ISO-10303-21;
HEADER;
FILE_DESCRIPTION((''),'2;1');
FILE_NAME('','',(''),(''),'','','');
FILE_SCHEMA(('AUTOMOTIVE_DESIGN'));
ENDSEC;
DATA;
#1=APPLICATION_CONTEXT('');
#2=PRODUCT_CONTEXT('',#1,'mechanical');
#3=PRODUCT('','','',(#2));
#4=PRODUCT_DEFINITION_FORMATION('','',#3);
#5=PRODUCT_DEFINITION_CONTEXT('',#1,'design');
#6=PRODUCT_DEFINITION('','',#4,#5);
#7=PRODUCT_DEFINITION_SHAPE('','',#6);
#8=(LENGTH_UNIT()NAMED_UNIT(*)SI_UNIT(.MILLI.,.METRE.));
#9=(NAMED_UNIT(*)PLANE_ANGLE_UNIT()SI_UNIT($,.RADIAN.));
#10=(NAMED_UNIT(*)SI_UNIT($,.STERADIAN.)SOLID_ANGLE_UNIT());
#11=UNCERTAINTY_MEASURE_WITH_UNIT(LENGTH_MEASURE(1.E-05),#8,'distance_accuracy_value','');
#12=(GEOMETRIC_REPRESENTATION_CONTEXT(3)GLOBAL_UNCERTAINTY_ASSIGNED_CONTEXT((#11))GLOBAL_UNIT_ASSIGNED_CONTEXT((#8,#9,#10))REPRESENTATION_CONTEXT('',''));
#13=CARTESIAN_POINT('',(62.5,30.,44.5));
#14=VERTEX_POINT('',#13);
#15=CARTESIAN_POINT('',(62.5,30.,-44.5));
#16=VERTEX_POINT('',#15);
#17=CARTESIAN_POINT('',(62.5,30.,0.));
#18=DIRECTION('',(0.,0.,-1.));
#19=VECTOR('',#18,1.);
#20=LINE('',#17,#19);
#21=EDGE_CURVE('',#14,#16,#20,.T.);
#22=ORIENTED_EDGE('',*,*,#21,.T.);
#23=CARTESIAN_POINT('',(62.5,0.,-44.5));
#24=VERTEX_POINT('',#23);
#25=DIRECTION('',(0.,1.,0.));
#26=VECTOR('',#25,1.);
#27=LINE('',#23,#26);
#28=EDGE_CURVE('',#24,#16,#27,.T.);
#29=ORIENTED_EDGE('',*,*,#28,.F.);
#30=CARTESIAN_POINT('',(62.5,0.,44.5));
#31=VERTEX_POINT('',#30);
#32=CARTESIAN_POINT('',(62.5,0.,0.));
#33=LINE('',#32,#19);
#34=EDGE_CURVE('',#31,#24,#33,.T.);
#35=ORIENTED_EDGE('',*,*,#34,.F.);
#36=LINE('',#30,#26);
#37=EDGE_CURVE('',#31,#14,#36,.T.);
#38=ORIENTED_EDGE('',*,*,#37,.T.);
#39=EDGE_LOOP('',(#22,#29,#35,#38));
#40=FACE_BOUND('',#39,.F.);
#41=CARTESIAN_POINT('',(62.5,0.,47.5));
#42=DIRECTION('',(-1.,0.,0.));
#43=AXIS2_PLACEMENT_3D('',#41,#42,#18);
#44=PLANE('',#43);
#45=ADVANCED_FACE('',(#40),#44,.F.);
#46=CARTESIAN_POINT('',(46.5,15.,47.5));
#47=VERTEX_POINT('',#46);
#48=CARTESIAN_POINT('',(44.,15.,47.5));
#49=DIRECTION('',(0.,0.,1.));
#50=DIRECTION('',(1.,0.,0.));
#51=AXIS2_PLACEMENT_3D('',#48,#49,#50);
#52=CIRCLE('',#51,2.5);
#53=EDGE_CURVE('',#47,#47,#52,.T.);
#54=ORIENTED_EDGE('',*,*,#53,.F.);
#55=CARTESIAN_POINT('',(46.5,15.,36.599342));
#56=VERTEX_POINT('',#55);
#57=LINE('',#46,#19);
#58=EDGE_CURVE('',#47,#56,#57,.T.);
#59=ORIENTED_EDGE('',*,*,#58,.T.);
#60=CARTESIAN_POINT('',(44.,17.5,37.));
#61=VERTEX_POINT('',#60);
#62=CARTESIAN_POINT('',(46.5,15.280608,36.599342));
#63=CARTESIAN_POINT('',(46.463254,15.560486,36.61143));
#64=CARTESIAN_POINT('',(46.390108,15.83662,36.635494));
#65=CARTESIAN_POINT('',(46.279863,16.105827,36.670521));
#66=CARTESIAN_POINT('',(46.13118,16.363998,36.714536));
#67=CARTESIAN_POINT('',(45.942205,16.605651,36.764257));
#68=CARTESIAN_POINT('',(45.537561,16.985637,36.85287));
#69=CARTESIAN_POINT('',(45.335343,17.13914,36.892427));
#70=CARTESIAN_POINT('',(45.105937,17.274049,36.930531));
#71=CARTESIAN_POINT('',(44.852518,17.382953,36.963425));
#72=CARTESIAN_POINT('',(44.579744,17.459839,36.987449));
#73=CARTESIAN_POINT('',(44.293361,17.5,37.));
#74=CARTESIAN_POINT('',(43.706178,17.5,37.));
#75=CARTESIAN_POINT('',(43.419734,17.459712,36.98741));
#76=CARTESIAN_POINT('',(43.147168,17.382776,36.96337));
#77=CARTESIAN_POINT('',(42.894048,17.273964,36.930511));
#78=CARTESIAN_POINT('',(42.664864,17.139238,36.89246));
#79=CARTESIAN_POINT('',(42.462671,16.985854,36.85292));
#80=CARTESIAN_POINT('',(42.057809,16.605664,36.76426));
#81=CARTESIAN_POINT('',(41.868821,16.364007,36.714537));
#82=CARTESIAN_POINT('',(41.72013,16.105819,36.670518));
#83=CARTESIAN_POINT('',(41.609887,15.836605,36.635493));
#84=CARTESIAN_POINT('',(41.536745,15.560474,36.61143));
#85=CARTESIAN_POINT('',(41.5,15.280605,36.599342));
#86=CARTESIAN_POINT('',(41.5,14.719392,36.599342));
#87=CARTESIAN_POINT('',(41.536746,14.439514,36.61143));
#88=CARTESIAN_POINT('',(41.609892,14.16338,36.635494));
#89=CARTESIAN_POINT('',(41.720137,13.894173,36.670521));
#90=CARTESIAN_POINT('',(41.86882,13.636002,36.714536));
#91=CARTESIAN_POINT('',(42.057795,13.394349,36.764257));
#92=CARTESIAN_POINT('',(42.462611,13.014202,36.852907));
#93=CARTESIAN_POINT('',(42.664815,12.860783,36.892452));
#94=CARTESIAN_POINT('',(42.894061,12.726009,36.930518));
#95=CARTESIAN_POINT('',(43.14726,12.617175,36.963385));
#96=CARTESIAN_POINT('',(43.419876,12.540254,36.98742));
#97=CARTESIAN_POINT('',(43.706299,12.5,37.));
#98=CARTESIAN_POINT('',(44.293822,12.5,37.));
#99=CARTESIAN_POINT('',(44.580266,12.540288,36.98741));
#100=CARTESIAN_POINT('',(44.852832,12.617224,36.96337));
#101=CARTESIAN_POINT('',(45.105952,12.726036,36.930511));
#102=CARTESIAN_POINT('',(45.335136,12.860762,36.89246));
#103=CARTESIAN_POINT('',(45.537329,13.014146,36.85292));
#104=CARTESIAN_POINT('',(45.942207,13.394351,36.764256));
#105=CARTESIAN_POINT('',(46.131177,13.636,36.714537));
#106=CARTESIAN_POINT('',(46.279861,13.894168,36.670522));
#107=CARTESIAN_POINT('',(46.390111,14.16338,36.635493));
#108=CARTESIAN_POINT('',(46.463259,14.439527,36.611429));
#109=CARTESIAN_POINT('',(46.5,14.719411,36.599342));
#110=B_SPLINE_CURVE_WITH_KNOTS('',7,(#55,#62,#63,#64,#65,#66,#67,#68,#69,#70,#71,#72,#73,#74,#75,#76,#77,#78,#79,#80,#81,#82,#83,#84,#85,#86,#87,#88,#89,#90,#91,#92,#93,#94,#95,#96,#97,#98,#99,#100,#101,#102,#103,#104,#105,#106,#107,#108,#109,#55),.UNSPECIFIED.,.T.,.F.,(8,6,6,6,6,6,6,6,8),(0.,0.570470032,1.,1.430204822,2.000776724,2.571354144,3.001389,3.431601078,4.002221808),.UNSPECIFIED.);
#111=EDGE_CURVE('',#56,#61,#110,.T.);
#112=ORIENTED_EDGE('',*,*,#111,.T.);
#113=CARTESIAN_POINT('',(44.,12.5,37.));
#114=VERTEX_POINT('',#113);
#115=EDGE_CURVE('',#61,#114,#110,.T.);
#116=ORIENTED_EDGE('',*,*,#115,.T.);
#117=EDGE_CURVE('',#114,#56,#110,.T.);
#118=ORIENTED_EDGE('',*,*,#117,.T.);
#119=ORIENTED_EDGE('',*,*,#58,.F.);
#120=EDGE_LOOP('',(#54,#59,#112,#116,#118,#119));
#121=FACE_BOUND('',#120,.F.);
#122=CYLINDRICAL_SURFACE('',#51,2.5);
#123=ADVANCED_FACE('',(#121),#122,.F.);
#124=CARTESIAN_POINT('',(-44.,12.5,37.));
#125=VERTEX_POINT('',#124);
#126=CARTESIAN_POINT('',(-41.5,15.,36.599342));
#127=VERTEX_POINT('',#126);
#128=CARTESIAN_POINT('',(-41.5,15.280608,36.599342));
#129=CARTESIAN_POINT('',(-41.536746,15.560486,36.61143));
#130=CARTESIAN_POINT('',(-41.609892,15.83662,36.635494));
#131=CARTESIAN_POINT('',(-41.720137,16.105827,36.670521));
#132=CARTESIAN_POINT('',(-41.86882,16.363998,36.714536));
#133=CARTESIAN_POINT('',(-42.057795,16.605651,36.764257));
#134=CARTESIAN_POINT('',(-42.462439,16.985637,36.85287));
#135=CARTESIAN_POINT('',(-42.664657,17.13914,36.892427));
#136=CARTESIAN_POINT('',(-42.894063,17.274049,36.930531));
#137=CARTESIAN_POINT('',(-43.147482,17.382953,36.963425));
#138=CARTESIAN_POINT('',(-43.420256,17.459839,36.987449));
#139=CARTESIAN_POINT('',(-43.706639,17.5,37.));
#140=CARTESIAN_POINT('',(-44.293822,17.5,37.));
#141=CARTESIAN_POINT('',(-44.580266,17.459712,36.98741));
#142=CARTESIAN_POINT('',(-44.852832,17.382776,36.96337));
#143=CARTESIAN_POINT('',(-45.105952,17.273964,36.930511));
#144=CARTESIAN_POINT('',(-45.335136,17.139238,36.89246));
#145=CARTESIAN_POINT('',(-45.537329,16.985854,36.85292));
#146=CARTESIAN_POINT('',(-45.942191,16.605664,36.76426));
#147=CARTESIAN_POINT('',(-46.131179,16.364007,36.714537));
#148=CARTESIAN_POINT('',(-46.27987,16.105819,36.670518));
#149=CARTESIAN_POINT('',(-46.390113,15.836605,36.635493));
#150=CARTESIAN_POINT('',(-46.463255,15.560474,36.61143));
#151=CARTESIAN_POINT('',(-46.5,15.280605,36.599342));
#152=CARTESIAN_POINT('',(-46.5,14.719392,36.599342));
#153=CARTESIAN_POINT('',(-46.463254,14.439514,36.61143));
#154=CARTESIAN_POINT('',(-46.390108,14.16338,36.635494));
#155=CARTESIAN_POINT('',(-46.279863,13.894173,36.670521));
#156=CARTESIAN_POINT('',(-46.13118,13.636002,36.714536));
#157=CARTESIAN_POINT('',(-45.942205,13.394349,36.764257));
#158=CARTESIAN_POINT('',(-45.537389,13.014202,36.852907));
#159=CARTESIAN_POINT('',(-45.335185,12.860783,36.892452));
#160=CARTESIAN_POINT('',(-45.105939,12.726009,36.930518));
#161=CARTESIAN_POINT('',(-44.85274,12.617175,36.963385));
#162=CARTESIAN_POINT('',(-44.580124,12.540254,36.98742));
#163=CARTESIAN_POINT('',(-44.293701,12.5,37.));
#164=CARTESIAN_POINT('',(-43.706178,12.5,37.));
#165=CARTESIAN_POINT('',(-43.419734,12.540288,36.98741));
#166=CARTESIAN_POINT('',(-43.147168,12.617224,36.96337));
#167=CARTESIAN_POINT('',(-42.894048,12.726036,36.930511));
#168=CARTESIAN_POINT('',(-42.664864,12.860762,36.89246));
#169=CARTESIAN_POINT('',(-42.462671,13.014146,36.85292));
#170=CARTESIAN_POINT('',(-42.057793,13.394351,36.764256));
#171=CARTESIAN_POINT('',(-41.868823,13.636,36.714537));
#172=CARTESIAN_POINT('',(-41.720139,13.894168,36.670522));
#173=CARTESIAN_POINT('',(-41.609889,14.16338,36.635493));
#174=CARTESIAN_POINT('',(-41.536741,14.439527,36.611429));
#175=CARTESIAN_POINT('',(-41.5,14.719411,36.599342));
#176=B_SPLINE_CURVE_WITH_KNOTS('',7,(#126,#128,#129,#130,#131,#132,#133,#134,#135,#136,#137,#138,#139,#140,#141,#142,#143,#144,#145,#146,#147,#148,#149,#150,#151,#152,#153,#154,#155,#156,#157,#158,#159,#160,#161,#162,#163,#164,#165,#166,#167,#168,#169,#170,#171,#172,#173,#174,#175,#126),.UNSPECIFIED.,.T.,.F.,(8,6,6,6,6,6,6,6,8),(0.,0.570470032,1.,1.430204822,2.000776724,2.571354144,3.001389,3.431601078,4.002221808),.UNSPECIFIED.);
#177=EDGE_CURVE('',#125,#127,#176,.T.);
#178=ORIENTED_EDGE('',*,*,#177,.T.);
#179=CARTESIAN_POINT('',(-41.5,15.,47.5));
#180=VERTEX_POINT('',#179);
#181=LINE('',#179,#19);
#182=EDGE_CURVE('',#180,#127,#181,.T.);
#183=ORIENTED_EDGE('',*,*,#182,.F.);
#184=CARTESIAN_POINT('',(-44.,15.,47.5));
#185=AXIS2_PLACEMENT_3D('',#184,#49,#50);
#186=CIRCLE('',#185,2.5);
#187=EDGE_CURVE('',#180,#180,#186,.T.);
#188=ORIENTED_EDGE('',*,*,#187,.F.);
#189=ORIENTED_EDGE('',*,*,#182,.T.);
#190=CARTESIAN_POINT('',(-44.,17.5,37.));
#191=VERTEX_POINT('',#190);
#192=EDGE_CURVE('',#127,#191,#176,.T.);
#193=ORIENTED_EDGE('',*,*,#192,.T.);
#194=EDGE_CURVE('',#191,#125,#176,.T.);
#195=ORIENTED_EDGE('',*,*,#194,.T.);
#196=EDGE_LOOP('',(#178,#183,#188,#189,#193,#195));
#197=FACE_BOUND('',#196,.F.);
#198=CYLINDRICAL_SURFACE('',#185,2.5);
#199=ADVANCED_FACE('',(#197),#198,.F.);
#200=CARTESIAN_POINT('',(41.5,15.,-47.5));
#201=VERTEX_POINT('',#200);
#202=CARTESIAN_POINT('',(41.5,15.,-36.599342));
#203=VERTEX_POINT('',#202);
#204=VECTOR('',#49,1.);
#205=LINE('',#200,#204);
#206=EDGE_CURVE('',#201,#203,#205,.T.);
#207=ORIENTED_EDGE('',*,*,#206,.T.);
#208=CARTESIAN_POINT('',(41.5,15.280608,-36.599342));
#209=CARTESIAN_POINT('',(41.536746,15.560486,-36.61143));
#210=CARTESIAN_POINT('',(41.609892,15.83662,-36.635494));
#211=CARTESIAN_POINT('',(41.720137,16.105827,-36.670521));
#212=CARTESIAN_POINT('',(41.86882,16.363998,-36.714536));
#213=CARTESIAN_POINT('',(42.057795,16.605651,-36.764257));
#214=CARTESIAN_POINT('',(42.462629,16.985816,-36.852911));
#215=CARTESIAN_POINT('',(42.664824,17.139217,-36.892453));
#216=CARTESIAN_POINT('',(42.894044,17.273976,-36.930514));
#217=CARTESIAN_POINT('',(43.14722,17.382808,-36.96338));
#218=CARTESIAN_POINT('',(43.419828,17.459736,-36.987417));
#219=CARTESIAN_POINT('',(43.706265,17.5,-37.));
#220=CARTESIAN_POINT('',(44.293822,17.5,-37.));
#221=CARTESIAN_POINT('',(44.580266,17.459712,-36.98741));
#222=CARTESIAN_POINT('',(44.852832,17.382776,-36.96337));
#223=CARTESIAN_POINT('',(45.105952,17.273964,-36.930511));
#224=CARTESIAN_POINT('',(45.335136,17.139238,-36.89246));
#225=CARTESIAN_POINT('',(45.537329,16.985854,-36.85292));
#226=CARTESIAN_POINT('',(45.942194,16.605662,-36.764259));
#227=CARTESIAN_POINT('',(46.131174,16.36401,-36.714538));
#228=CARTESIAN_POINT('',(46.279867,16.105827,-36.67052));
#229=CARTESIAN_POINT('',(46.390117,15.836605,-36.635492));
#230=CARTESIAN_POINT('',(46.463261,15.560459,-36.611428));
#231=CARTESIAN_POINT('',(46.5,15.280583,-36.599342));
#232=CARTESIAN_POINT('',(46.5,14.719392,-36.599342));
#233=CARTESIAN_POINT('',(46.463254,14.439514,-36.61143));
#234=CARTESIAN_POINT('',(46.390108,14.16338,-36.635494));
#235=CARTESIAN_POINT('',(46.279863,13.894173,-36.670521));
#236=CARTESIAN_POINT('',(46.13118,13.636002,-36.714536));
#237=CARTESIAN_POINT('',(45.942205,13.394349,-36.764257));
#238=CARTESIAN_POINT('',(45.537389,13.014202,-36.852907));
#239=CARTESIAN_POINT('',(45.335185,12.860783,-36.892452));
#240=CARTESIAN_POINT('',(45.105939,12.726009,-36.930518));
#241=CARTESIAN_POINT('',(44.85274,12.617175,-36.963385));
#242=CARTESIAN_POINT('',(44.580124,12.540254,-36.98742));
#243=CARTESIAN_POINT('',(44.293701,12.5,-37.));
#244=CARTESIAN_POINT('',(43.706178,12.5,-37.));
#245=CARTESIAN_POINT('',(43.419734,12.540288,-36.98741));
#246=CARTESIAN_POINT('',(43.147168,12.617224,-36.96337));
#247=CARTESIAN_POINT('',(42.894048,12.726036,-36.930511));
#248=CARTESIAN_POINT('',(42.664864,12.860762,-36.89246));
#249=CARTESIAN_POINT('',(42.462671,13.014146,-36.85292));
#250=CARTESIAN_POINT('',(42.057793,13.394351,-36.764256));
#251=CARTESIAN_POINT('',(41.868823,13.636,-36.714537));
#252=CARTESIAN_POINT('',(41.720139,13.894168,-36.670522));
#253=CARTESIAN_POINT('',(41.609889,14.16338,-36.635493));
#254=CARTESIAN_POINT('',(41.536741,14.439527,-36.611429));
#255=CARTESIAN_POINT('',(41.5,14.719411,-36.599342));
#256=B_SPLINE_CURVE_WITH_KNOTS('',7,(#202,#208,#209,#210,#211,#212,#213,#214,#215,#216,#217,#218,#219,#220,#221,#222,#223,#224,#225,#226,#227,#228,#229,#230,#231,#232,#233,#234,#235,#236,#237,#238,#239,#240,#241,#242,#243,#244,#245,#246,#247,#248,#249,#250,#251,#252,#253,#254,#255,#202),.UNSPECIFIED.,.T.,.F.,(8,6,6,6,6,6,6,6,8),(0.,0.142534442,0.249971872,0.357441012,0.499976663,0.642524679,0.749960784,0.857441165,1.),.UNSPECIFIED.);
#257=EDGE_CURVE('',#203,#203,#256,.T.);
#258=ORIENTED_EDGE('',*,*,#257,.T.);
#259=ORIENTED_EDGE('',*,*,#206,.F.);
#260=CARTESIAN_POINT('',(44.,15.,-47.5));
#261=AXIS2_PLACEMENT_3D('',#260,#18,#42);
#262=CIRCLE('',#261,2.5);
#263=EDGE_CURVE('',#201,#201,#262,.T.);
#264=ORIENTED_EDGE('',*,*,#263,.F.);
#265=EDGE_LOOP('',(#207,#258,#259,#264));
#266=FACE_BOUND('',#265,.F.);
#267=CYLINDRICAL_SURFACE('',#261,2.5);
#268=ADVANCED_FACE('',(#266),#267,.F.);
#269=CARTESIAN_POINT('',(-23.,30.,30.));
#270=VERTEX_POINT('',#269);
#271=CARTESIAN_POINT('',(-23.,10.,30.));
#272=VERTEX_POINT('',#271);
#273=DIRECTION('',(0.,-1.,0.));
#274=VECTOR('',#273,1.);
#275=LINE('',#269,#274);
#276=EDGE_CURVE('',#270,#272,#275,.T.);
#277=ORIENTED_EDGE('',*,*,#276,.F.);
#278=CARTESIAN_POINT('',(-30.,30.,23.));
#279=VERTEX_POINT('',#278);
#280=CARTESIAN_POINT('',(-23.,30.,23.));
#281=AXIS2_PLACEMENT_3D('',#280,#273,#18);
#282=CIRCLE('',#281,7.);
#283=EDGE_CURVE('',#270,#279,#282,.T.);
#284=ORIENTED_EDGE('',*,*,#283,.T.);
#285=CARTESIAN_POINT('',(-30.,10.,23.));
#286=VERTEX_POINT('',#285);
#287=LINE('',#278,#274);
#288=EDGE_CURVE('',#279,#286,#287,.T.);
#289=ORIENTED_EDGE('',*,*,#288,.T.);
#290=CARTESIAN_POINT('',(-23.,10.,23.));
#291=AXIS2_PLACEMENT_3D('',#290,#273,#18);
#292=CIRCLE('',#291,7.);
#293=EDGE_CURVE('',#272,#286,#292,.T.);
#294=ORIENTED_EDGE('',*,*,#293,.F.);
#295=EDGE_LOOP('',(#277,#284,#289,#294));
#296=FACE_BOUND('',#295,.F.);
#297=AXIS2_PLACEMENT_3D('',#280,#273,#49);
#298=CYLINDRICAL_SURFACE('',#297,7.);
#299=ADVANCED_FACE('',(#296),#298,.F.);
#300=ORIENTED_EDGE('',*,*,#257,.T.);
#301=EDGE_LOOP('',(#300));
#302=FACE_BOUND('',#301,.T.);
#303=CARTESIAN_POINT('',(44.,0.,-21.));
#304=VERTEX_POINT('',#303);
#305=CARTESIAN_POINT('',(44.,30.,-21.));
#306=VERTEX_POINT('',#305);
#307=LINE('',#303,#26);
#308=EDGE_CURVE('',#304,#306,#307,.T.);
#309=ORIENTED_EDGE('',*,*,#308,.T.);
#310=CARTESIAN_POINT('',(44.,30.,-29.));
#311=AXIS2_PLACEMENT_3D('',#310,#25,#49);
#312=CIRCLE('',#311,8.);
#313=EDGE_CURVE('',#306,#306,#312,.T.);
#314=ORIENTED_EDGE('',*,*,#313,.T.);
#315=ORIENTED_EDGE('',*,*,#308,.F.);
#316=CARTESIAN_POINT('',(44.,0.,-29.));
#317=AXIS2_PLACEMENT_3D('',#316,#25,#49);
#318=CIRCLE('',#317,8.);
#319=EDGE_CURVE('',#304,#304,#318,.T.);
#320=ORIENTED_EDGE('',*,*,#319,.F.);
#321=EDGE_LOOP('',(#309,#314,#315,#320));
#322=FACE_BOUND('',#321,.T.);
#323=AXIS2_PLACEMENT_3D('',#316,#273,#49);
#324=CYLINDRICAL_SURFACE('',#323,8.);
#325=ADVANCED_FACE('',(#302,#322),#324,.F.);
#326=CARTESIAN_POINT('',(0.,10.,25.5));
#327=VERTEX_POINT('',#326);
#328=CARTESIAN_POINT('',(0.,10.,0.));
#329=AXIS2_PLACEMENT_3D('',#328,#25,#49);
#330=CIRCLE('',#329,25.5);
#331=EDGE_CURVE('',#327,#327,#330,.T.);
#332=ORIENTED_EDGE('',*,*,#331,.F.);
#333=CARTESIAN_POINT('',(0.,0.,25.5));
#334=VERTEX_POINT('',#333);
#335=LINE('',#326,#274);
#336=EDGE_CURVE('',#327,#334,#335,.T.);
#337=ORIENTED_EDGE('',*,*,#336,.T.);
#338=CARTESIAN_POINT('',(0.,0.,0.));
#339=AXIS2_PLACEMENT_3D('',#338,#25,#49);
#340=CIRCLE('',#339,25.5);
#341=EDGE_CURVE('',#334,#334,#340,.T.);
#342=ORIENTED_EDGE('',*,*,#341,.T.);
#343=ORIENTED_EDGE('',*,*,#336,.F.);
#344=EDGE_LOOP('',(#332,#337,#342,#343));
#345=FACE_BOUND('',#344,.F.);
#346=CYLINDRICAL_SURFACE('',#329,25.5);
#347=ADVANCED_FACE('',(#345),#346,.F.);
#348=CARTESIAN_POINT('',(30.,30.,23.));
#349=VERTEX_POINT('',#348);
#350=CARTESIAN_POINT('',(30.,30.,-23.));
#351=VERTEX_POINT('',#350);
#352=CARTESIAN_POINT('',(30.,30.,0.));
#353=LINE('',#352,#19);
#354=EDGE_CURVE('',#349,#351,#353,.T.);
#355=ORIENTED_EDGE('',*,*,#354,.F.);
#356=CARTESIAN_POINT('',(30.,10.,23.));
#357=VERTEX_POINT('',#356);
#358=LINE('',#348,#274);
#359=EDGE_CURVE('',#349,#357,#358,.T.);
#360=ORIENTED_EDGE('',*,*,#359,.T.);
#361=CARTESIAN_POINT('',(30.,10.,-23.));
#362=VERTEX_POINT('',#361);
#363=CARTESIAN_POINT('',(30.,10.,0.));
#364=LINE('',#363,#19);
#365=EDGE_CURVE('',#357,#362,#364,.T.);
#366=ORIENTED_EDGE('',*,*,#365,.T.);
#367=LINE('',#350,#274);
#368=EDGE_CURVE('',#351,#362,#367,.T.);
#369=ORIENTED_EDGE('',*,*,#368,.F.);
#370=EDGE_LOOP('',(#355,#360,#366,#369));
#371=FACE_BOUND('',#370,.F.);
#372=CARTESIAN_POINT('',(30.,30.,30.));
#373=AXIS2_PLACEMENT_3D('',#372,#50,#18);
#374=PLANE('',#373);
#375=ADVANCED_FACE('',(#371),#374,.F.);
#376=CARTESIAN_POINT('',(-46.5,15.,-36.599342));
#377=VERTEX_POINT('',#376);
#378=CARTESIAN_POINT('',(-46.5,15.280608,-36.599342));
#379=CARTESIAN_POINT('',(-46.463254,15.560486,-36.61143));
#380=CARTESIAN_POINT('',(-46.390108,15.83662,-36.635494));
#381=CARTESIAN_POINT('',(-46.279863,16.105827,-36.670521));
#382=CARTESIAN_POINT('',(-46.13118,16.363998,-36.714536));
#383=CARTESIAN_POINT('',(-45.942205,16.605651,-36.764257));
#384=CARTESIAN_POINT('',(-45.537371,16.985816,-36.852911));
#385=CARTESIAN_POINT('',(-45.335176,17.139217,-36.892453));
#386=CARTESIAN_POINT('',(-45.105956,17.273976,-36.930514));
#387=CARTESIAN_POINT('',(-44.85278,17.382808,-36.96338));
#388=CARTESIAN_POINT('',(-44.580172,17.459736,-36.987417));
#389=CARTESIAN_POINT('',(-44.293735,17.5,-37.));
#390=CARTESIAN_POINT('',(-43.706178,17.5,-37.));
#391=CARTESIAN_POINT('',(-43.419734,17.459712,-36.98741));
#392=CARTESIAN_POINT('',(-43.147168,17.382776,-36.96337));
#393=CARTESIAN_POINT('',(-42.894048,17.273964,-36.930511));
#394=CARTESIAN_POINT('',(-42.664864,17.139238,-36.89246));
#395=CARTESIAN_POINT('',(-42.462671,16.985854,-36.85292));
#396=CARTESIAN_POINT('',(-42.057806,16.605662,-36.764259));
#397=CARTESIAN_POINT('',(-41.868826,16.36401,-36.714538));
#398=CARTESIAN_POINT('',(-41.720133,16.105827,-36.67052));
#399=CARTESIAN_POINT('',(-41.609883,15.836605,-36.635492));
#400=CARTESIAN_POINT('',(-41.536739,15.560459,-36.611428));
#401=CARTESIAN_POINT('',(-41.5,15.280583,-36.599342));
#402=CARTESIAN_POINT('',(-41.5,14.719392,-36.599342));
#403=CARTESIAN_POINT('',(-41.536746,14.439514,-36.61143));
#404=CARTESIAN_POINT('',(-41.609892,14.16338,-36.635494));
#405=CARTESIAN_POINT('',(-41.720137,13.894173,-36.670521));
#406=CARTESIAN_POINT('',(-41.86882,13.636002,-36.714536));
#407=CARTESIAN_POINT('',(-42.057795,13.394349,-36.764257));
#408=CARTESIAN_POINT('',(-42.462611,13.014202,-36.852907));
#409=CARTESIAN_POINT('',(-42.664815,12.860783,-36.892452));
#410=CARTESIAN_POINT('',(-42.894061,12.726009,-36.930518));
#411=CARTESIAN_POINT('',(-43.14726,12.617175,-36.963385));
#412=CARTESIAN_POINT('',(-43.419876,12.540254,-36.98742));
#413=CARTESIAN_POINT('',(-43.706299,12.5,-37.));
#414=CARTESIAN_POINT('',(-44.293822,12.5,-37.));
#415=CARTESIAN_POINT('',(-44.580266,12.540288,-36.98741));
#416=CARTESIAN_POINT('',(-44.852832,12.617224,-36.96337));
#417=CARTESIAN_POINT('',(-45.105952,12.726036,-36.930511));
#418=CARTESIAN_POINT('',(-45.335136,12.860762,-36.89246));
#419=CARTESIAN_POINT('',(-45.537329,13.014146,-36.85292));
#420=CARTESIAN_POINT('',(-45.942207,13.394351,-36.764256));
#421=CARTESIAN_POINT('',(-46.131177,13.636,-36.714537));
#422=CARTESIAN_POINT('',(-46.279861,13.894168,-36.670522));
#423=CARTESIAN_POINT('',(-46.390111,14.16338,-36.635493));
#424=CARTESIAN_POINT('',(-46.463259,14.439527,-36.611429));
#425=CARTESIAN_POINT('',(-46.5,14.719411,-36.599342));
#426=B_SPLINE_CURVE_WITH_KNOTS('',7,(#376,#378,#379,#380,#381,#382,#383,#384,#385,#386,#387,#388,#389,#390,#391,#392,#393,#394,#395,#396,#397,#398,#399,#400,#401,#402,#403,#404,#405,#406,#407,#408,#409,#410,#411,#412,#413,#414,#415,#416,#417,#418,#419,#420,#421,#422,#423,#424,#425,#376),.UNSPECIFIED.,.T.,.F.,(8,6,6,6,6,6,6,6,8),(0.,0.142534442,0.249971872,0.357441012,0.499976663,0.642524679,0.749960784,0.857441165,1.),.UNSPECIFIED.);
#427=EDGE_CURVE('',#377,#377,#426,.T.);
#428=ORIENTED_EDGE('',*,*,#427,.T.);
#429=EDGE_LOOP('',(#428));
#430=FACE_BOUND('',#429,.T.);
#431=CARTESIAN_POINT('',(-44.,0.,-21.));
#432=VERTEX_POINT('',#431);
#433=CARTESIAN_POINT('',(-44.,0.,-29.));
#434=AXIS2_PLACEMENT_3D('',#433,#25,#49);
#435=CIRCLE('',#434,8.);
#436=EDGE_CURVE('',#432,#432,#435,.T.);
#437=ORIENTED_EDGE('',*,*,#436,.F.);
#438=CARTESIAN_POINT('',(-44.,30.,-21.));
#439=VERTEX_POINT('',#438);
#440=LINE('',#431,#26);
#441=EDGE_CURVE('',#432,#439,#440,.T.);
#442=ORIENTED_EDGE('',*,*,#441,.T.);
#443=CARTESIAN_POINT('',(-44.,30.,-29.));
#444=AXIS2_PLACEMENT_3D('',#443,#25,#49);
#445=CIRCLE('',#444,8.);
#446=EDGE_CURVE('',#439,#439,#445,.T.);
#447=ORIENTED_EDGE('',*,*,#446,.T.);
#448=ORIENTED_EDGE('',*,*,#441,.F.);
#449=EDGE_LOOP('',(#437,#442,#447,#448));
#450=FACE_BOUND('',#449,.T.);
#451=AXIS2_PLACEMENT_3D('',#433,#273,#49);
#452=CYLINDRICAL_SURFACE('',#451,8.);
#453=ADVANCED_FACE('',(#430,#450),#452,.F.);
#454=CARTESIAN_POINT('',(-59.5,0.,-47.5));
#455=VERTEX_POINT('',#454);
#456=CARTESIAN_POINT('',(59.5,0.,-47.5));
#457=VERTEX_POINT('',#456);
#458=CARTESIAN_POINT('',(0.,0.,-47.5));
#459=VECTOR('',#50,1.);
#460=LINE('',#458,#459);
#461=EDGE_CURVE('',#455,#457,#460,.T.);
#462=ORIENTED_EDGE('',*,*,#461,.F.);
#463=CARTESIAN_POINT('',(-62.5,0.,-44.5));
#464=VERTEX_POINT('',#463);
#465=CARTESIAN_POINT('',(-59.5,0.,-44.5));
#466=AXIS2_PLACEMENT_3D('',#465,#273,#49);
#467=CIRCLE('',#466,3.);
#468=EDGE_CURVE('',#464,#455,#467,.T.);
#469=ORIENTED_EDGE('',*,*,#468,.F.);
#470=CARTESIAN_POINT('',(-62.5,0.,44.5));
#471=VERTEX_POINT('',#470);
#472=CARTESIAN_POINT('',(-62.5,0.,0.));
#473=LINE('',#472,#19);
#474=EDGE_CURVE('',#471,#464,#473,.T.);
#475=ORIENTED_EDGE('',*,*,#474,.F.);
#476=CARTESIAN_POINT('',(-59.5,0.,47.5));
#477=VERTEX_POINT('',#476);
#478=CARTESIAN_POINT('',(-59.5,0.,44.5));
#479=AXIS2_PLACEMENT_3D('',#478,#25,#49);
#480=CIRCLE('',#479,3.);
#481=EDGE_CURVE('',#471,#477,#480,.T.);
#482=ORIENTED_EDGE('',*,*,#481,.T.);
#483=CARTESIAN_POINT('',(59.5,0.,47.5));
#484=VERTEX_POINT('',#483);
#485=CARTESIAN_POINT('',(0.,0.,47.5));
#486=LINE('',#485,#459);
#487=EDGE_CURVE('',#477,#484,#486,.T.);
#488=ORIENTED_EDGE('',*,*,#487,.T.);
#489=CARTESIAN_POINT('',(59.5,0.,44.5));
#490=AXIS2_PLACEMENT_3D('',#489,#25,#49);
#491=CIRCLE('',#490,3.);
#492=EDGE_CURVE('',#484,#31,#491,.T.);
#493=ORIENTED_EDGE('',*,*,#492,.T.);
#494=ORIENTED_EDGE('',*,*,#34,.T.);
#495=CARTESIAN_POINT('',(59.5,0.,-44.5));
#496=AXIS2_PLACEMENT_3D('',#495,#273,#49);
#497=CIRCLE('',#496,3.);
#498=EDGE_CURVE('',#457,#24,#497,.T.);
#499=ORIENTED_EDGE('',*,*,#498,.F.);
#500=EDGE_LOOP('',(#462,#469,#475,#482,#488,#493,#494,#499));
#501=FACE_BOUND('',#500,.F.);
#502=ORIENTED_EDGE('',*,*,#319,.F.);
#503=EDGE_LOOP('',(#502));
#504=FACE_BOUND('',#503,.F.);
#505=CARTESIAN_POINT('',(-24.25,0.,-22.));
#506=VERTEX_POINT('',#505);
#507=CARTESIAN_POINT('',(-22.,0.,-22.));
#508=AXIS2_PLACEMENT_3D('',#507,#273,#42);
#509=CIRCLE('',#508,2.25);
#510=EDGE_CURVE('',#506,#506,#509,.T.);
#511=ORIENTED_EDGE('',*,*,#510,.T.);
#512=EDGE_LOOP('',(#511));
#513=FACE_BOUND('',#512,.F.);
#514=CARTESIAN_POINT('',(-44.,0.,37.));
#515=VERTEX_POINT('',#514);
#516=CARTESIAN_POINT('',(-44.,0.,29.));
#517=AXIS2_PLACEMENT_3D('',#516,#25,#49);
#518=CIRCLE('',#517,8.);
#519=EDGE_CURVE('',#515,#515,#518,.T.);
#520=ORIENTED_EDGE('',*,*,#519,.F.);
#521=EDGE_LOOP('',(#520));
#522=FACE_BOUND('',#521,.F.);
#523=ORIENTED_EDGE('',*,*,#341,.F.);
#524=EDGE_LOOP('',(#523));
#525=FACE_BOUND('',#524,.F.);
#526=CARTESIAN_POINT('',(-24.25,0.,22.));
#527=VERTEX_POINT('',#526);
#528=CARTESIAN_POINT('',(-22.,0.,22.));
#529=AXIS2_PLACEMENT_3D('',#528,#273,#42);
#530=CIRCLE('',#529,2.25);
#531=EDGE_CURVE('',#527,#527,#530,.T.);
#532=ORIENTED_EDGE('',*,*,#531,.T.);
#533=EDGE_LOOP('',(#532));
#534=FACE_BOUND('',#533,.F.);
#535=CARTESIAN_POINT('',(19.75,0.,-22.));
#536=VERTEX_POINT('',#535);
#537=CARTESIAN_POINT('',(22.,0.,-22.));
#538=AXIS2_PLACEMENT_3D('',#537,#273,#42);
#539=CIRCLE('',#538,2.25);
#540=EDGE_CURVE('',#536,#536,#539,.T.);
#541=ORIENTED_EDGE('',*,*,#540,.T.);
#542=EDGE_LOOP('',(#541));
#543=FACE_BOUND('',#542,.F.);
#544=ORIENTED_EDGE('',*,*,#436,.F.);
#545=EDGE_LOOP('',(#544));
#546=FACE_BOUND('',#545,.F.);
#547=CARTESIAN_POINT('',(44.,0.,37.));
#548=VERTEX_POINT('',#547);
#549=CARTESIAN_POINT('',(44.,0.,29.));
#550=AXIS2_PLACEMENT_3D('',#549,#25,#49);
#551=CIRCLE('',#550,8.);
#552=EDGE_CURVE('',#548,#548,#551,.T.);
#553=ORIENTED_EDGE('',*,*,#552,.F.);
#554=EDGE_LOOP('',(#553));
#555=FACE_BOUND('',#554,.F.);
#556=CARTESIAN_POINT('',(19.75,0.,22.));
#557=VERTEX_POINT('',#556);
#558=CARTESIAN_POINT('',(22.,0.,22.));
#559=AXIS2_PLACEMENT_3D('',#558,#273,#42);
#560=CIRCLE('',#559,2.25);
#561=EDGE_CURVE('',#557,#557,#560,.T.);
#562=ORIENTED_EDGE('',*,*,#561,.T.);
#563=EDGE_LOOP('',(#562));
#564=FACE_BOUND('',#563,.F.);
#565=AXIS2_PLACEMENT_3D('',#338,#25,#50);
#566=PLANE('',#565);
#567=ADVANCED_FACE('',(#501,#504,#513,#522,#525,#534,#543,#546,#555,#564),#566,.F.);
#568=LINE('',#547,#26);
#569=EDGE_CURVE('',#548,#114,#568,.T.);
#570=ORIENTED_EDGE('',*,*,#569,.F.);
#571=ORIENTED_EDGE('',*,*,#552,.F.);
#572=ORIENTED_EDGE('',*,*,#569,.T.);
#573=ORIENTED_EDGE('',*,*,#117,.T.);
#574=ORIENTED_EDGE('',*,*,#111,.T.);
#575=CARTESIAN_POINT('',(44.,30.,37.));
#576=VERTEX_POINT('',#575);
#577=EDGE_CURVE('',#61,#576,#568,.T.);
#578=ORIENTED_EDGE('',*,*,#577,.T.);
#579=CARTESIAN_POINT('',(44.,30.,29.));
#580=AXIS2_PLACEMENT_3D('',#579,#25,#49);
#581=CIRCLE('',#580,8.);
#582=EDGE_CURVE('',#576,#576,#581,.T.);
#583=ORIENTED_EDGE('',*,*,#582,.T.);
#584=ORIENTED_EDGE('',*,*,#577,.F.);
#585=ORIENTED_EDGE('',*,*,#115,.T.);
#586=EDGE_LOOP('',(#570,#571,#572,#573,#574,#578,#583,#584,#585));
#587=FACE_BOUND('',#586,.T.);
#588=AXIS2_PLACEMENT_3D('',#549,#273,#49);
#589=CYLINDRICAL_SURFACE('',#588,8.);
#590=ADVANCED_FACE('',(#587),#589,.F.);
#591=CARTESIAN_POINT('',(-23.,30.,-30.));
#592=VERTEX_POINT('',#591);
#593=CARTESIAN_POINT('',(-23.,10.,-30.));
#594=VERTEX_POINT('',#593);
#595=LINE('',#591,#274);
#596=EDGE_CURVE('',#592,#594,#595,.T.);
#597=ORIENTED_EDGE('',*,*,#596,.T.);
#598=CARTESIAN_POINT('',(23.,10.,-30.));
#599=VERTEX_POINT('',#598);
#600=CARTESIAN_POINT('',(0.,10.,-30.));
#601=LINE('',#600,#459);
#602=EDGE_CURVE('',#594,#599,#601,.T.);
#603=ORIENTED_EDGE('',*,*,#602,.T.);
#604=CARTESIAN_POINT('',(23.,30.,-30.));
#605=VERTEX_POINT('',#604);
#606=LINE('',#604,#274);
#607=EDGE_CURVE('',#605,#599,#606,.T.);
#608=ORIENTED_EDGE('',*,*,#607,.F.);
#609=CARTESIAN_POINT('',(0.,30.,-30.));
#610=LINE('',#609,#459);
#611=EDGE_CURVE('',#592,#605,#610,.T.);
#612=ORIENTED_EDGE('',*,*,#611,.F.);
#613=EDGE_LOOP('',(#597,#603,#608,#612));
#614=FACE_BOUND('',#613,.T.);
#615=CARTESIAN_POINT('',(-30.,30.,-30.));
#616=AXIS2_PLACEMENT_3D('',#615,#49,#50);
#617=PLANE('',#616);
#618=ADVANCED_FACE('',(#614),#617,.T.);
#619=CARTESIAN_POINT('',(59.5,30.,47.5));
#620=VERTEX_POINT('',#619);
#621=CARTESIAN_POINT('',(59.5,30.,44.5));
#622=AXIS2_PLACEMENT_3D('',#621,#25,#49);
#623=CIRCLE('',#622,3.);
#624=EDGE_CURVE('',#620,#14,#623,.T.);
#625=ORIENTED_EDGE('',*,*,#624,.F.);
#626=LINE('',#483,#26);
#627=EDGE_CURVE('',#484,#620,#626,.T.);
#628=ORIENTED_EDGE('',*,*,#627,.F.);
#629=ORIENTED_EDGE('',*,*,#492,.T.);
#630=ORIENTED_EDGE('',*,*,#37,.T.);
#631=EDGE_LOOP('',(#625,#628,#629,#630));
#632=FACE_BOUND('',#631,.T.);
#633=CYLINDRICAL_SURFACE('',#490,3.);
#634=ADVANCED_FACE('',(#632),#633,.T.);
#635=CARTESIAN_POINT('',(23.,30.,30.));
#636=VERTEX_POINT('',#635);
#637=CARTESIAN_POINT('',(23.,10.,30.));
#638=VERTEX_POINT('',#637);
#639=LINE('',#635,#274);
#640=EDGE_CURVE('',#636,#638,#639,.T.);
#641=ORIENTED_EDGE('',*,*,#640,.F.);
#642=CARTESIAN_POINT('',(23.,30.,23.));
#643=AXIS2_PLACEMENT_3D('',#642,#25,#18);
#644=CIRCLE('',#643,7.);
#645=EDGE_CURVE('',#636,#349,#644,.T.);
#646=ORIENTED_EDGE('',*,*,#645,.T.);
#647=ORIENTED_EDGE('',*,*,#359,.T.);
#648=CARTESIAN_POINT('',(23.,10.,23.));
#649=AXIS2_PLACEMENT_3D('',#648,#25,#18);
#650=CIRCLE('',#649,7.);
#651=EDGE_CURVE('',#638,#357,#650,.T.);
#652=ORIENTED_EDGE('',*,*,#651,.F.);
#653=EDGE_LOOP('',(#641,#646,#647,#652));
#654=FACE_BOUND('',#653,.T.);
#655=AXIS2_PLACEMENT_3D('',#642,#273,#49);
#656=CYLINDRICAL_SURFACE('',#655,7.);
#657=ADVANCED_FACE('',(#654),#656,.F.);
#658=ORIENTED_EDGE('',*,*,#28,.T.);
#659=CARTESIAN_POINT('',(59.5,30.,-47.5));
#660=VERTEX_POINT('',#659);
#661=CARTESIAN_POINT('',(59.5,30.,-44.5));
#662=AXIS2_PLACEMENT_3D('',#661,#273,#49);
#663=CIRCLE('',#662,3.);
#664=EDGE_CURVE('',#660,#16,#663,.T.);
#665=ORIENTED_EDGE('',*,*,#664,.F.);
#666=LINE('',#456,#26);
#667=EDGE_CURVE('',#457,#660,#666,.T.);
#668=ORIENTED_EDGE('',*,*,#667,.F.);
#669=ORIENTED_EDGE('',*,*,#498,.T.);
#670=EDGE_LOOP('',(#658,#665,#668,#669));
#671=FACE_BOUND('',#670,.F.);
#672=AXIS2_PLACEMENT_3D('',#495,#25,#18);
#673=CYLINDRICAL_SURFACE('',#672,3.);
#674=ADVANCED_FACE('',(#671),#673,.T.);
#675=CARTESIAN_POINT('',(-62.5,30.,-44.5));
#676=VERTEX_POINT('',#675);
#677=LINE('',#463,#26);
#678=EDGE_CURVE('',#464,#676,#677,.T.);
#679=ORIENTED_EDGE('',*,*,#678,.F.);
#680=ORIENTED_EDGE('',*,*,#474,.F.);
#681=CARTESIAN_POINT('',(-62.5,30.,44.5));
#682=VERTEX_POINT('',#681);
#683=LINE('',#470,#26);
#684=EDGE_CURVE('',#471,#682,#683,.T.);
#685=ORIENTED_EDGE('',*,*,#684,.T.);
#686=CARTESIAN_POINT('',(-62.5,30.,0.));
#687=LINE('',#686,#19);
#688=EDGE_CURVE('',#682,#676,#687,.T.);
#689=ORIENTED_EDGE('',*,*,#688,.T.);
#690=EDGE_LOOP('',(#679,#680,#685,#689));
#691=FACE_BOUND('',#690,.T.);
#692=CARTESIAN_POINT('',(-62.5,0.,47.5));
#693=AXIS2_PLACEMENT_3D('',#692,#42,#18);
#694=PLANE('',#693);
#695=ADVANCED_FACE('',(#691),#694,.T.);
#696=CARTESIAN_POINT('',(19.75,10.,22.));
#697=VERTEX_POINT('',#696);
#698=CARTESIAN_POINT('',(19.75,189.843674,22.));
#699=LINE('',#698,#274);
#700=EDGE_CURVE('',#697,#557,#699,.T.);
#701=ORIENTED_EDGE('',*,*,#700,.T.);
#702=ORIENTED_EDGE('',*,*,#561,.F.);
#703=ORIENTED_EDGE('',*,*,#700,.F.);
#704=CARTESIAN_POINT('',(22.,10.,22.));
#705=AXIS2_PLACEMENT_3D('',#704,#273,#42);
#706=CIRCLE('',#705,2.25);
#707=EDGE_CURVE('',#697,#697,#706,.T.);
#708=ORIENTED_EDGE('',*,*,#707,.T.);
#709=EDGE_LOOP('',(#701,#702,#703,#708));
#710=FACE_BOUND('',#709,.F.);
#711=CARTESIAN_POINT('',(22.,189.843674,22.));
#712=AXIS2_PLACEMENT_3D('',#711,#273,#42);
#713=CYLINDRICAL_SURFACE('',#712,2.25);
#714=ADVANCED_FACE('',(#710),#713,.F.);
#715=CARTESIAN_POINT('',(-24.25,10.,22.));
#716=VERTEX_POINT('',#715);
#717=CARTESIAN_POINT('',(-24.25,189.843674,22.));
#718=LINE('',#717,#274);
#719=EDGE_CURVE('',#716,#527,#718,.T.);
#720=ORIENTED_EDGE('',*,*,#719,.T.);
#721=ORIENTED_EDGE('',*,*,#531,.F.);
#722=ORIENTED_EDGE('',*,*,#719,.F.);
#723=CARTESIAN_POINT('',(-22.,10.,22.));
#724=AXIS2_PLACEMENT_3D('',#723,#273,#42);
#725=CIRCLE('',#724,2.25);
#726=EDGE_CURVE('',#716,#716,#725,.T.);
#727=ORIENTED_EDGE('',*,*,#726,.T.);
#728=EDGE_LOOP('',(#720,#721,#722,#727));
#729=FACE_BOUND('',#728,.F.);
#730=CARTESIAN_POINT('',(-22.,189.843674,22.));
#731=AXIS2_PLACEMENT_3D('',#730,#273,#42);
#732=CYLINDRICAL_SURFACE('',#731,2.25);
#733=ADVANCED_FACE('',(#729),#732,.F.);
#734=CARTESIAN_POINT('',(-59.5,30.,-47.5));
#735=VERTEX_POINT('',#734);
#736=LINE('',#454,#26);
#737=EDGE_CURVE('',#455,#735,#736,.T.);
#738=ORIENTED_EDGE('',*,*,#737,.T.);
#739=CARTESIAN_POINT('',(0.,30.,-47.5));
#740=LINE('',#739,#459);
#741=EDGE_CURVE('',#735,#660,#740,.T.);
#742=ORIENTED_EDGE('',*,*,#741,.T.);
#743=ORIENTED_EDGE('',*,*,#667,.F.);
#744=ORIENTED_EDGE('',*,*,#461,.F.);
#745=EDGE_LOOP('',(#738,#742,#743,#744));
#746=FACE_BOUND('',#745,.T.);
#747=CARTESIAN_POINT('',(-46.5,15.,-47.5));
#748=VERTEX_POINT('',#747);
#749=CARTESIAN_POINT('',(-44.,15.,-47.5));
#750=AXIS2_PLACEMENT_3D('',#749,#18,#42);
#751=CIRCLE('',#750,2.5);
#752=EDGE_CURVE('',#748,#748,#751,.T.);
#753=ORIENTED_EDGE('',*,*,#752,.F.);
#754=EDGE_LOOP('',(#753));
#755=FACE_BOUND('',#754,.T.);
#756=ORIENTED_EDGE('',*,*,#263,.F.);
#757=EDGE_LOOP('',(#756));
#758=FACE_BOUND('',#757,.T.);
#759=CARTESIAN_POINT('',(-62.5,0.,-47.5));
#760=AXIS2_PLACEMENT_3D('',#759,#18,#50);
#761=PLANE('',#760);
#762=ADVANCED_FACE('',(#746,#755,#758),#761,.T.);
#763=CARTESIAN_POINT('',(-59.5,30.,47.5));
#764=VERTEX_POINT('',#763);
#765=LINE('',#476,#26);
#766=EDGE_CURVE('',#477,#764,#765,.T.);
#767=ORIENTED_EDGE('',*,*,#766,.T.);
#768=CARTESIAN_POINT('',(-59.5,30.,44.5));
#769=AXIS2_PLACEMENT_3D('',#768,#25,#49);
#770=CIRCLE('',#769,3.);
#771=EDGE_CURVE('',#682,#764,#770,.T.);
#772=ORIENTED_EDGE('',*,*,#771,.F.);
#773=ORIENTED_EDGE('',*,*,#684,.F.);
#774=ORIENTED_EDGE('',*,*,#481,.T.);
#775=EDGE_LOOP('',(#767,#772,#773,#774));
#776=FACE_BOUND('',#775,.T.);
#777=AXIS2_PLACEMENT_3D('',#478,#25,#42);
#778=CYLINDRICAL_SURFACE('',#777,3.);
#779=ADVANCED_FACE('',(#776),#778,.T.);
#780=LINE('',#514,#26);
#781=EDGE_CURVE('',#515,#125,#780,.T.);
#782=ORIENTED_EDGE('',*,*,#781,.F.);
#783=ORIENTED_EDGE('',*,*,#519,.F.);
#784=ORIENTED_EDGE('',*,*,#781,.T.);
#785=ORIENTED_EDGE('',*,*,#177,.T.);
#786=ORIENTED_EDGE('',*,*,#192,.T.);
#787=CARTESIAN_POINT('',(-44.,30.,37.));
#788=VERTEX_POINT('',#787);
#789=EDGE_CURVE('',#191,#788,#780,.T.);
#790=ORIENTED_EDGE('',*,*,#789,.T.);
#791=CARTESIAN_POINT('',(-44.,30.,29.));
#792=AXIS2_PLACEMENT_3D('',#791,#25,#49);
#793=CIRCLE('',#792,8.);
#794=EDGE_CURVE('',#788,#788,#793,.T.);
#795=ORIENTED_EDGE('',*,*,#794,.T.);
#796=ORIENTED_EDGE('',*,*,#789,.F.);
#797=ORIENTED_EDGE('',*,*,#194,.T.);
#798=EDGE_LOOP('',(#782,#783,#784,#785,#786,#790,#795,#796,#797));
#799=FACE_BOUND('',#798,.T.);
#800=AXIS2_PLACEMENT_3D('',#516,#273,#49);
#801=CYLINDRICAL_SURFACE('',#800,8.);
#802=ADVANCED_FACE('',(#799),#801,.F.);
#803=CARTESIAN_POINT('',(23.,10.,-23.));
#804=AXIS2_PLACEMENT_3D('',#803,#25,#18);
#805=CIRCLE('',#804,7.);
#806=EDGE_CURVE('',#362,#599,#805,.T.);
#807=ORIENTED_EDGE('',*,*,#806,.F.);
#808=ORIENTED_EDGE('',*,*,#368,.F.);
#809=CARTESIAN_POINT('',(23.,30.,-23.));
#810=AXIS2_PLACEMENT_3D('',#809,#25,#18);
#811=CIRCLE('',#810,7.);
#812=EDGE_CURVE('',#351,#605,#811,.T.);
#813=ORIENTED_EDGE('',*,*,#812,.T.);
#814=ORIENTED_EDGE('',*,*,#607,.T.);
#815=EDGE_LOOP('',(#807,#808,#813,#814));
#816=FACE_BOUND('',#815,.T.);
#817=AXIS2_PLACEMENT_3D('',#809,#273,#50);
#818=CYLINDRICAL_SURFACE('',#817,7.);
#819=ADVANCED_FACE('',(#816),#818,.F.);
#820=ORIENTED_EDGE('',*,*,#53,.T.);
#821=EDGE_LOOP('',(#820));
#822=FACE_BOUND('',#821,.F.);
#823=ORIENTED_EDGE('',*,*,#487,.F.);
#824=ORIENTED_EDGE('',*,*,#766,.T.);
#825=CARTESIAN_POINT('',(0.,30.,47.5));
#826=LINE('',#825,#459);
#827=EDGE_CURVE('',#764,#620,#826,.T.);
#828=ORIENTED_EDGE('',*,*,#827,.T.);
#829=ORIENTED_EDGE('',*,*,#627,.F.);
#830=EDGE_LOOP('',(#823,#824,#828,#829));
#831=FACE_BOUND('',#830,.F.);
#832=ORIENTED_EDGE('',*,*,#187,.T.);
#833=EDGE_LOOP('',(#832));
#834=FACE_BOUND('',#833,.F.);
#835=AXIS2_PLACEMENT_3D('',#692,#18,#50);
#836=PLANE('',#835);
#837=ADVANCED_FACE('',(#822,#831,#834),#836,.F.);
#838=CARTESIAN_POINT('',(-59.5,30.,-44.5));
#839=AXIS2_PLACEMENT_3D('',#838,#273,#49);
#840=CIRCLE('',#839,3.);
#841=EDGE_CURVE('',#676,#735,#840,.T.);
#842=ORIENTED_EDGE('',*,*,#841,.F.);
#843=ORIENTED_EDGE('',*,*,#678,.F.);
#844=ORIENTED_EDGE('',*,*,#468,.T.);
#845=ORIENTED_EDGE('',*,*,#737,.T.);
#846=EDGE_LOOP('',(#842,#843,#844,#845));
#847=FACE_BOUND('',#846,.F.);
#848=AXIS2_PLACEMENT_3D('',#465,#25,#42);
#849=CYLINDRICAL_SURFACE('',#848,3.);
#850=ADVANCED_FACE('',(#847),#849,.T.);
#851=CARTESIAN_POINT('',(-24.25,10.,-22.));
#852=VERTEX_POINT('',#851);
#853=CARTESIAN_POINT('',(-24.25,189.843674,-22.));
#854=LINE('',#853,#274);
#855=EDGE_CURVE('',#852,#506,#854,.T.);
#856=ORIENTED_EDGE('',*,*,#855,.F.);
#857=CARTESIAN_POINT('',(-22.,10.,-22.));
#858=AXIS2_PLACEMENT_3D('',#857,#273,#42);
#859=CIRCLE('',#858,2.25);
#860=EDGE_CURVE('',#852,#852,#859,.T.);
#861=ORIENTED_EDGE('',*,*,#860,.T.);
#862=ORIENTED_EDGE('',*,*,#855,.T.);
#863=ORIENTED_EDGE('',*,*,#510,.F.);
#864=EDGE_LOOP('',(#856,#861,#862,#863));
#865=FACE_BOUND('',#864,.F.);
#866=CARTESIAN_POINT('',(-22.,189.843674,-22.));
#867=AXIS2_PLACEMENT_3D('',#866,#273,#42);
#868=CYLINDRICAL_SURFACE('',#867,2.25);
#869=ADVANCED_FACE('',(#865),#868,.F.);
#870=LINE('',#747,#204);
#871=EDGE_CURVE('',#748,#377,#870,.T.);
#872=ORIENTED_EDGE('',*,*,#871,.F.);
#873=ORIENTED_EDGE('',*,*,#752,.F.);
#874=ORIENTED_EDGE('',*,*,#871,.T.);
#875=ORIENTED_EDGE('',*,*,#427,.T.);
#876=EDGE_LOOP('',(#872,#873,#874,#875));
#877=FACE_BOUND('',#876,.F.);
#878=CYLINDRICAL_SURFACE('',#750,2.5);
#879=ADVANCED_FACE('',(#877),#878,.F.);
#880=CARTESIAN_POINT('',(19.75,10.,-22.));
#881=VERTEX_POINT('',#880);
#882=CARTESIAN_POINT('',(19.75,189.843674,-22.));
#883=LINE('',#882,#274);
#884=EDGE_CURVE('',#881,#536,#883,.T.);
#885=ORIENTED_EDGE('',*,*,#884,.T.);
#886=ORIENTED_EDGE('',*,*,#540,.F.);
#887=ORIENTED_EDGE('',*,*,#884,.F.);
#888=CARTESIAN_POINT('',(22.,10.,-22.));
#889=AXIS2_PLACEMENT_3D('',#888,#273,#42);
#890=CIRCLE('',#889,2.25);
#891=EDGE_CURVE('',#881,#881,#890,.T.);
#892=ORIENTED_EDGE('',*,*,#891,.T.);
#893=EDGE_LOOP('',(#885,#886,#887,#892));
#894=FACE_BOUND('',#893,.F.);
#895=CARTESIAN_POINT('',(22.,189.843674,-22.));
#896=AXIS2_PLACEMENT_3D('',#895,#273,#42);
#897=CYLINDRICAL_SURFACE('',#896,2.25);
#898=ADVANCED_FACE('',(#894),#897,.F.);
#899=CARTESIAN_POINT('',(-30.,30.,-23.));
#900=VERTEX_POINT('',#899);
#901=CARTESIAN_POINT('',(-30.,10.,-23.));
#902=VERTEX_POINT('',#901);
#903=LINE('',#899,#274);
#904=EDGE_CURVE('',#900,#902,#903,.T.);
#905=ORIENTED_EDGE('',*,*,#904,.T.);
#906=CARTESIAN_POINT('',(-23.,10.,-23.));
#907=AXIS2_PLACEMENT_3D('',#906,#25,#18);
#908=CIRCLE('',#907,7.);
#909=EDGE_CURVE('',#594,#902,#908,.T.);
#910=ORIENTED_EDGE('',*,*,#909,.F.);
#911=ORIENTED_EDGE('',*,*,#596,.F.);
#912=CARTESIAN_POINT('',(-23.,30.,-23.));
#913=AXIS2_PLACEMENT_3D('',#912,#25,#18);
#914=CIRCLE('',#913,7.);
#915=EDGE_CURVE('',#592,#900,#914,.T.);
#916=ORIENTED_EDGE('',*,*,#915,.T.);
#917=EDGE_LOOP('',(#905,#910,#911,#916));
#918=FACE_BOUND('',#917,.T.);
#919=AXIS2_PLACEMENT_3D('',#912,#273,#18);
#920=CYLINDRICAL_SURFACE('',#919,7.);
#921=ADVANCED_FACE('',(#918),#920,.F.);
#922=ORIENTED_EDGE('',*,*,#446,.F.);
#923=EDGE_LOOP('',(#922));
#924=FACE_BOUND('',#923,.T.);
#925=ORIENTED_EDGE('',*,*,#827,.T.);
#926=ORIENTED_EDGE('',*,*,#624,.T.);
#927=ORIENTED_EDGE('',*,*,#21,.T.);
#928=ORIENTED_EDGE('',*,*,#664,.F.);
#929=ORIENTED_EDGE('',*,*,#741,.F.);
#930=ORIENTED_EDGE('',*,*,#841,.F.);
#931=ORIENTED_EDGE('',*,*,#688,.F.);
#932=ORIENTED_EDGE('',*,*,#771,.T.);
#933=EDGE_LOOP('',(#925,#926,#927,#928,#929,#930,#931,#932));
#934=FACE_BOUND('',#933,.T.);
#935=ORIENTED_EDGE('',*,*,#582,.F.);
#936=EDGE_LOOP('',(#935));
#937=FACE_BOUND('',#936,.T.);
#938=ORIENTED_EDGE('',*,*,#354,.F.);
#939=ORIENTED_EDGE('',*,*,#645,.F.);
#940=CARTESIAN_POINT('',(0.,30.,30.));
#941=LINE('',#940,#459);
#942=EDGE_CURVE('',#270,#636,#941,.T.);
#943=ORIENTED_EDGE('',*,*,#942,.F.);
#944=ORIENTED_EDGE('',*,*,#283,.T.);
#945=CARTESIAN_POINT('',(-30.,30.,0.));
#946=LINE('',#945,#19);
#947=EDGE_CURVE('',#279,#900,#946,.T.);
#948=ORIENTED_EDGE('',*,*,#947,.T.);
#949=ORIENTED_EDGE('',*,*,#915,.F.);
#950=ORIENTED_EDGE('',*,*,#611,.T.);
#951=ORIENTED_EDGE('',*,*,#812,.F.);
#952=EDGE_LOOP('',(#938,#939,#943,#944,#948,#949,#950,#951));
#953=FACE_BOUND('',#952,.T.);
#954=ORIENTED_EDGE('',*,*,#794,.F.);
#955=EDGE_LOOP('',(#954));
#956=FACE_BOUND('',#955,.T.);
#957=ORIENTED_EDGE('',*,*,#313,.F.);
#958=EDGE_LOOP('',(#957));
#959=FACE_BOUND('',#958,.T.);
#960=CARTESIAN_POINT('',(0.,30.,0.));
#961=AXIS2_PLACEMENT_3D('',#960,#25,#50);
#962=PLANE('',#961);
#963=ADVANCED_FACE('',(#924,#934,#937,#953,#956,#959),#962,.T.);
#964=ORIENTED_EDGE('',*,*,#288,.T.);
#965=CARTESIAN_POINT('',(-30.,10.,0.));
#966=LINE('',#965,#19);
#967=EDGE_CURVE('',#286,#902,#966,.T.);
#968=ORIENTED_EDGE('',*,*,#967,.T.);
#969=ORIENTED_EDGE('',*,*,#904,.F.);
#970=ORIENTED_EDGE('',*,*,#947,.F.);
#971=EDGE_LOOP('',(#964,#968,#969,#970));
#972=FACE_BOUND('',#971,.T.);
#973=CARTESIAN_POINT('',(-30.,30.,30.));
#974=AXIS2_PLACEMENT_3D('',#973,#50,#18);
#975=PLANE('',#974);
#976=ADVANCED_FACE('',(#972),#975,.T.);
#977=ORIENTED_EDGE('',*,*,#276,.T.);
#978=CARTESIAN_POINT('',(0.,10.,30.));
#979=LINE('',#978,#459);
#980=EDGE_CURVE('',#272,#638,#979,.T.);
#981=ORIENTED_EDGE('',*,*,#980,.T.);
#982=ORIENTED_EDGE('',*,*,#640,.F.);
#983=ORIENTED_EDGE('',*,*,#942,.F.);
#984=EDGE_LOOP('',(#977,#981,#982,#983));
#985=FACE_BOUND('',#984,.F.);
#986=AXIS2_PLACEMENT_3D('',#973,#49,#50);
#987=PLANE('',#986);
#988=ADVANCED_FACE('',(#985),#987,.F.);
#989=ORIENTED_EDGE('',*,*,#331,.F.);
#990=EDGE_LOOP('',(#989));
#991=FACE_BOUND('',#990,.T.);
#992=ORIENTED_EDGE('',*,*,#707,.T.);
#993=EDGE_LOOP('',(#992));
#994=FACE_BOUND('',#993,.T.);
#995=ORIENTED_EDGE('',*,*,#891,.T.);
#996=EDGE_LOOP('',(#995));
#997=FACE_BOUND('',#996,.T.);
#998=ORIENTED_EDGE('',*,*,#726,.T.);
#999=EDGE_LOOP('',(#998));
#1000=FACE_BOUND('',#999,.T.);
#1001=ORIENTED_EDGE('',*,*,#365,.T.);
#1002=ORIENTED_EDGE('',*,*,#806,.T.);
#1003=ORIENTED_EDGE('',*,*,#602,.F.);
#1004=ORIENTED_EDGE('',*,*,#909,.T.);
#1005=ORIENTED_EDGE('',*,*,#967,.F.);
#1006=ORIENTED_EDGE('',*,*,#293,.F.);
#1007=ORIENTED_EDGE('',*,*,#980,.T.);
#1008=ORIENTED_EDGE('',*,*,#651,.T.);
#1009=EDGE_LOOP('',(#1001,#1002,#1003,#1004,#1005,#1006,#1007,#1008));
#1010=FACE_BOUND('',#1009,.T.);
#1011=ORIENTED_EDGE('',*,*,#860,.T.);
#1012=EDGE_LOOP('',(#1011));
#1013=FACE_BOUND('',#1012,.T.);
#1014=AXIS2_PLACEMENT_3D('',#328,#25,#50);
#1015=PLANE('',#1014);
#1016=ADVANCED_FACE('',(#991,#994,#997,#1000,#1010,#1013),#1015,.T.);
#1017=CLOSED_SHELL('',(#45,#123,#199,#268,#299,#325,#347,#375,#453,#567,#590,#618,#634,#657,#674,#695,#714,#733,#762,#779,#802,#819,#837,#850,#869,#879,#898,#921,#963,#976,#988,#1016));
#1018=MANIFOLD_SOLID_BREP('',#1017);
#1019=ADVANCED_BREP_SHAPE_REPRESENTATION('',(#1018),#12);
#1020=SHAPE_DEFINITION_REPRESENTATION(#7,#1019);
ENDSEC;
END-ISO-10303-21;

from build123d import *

# Parameters (mm, degrees)
SKETCH2_W                  = 125
SKETCH2_H                  = 95
SKETCH2_R                  = 8
BOSS_EXTRUDE1_DEPTH        = 30
SKETCH3_W                  = 60
SKETCH3_H                  = 60
CUT_EXTRUDE1_DEPTH         = 20
SKETCH4_R                  = 25.5
CUT_EXTRUDE2_DEPTH         = 82.00925873
FILLET1_R                  = 7
FILLET3_R                  = 3
M4_CLEARANCE_HOLE1_D       = 4.5
M6X1_0_TAPPED_HOLE1_REACH  = 119.606
M6X1_0_TAPPED_HOLE1_BORE_R = 2.5
M6X1_0_TAPPED_HOLE2_REACH  = 119.606
M6X1_0_TAPPED_HOLE2_BORE_R = 2.5


with BuildPart() as part:
    # Sketch2 → Boss-Extrude1 (new body)
    with BuildSketch(Plane(origin=(0, 0, 0), x_dir=(1, 0, 0), z_dir=(0, 1, 0))):
        Rectangle(SKETCH2_W, SKETCH2_H)
        with Locations(Location((-44, 29, 0), (0, 0, 270))):
            Circle(SKETCH2_R, mode=Mode.SUBTRACT)
        with Locations(Location((-44, -29, 0), (0, 0, 270))):
            Circle(SKETCH2_R, mode=Mode.SUBTRACT)
        with Locations(Location((44, -29, 0), (0, 0, 270))):
            Circle(SKETCH2_R, mode=Mode.SUBTRACT)
        with Locations(Location((44, 29, 0), (0, 0, 270))):
            Circle(SKETCH2_R, mode=Mode.SUBTRACT)
    extrude(amount=BOSS_EXTRUDE1_DEPTH)

    # Sketch3 → Cut-Extrude1 (cut)
    with BuildSketch(Plane(origin=(0, 30, 0), x_dir=(1, 0, 0), z_dir=(0, 1, 0))):
        Rectangle(SKETCH3_W, SKETCH3_H)
    extrude(amount=-CUT_EXTRUDE1_DEPTH, mode=Mode.SUBTRACT)

    # Sketch4 → Cut-Extrude2 (cut, through all)
    with BuildSketch(Plane(origin=(0, 10, 0), x_dir=(1, 0, 0), z_dir=(0, 1, 0))):
        with Locations(Location((0, 0, 0), (0, 0, 270))):
            Circle(SKETCH4_R)
    extrude(amount=-CUT_EXTRUDE2_DEPTH, mode=Mode.SUBTRACT)

    # Fillet1
    fillet1_edges = [part.edges().sort_by_distance(p)[0] for p in [
        (30, 20, -30),
        (30, 20, 30),
        (-30, 20, 30),
        (-30, 20, -30),
    ]]
    fillet(fillet1_edges, radius=FILLET1_R)

    # Fillet3
    fillet3_edges = [part.edges().sort_by_distance(p)[0] for p in [
        (-62.5, 15, -47.5),
        (62.5, 15, -47.5),
        (62.5, 15, 47.5),
        (-62.5, 15, 47.5),
    ]]
    fillet(fillet3_edges, radius=FILLET3_R)

    # M4 Clearance Hole1 (through all)
    with Locations(Plane(origin=(0, 30, 0), x_dir=(1, 0, 0), z_dir=(0, 1, 0))):
        with Locations((-22, 22), (22, 22), (22, -22), (-22, -22)):
            Hole(M4_CLEARANCE_HOLE1_D / 2)

    # M6x1.0 Tapped Hole1 bore → M6x1.0 Tapped Hole1 (cut, up to next)
    with BuildSketch(Plane.XY.offset(47.5), mode=Mode.PRIVATE) as m6x1_0_tapped_hole1_sk1:
        with Locations((-44, 15)):
            Circle(M6X1_0_TAPPED_HOLE1_BORE_R)
    m6x1_0_tapped_hole1_tool1 = extrude(m6x1_0_tapped_hole1_sk1.sketch, amount=-M6X1_0_TAPPED_HOLE1_REACH, mode=Mode.PRIVATE) & part.part
    # M6x1.0 Tapped Hole1 bore → M6x1.0 Tapped Hole1 (cut, up to next)
    with BuildSketch(Plane.XY.offset(47.5), mode=Mode.PRIVATE) as m6x1_0_tapped_hole1_sk2:
        with Locations((44, 15)):
            Circle(M6X1_0_TAPPED_HOLE1_BORE_R)
    m6x1_0_tapped_hole1_tool2 = extrude(m6x1_0_tapped_hole1_sk2.sketch, amount=-M6X1_0_TAPPED_HOLE1_REACH, mode=Mode.PRIVATE) & part.part
    add(m6x1_0_tapped_hole1_tool1.solids().sort_by_distance((-44, 15, 47.5))[0], mode=Mode.SUBTRACT)
    add(m6x1_0_tapped_hole1_tool2.solids().sort_by_distance((44, 15, 47.5))[0], mode=Mode.SUBTRACT)

    # M6x1.0 Tapped Hole2 bore → M6x1.0 Tapped Hole2 (cut, up to next)
    with BuildSketch(Plane(origin=(0, 0, -47.5), x_dir=(-1, 0, 0), z_dir=(0, 0, -1)), mode=Mode.PRIVATE) as m6x1_0_tapped_hole2_sk1:
        with Locations((-44, 15)):
            Circle(M6X1_0_TAPPED_HOLE2_BORE_R)
    m6x1_0_tapped_hole2_tool1 = extrude(m6x1_0_tapped_hole2_sk1.sketch, amount=-M6X1_0_TAPPED_HOLE2_REACH, mode=Mode.PRIVATE) & part.part
    # M6x1.0 Tapped Hole2 bore → M6x1.0 Tapped Hole2 (cut, up to next)
    with BuildSketch(Plane(origin=(0, 0, -47.5), x_dir=(-1, 0, 0), z_dir=(0, 0, -1)), mode=Mode.PRIVATE) as m6x1_0_tapped_hole2_sk2:
        with Locations((44, 15)):
            Circle(M6X1_0_TAPPED_HOLE2_BORE_R)
    m6x1_0_tapped_hole2_tool2 = extrude(m6x1_0_tapped_hole2_sk2.sketch, amount=-M6X1_0_TAPPED_HOLE2_REACH, mode=Mode.PRIVATE) & part.part
    add(m6x1_0_tapped_hole2_tool1.solids().sort_by_distance((44, 15, -47.5))[0], mode=Mode.SUBTRACT)
    add(m6x1_0_tapped_hole2_tool2.solids().sort_by_distance((-44, 15, -47.5))[0], mode=Mode.SUBTRACT)


solid = part.part
